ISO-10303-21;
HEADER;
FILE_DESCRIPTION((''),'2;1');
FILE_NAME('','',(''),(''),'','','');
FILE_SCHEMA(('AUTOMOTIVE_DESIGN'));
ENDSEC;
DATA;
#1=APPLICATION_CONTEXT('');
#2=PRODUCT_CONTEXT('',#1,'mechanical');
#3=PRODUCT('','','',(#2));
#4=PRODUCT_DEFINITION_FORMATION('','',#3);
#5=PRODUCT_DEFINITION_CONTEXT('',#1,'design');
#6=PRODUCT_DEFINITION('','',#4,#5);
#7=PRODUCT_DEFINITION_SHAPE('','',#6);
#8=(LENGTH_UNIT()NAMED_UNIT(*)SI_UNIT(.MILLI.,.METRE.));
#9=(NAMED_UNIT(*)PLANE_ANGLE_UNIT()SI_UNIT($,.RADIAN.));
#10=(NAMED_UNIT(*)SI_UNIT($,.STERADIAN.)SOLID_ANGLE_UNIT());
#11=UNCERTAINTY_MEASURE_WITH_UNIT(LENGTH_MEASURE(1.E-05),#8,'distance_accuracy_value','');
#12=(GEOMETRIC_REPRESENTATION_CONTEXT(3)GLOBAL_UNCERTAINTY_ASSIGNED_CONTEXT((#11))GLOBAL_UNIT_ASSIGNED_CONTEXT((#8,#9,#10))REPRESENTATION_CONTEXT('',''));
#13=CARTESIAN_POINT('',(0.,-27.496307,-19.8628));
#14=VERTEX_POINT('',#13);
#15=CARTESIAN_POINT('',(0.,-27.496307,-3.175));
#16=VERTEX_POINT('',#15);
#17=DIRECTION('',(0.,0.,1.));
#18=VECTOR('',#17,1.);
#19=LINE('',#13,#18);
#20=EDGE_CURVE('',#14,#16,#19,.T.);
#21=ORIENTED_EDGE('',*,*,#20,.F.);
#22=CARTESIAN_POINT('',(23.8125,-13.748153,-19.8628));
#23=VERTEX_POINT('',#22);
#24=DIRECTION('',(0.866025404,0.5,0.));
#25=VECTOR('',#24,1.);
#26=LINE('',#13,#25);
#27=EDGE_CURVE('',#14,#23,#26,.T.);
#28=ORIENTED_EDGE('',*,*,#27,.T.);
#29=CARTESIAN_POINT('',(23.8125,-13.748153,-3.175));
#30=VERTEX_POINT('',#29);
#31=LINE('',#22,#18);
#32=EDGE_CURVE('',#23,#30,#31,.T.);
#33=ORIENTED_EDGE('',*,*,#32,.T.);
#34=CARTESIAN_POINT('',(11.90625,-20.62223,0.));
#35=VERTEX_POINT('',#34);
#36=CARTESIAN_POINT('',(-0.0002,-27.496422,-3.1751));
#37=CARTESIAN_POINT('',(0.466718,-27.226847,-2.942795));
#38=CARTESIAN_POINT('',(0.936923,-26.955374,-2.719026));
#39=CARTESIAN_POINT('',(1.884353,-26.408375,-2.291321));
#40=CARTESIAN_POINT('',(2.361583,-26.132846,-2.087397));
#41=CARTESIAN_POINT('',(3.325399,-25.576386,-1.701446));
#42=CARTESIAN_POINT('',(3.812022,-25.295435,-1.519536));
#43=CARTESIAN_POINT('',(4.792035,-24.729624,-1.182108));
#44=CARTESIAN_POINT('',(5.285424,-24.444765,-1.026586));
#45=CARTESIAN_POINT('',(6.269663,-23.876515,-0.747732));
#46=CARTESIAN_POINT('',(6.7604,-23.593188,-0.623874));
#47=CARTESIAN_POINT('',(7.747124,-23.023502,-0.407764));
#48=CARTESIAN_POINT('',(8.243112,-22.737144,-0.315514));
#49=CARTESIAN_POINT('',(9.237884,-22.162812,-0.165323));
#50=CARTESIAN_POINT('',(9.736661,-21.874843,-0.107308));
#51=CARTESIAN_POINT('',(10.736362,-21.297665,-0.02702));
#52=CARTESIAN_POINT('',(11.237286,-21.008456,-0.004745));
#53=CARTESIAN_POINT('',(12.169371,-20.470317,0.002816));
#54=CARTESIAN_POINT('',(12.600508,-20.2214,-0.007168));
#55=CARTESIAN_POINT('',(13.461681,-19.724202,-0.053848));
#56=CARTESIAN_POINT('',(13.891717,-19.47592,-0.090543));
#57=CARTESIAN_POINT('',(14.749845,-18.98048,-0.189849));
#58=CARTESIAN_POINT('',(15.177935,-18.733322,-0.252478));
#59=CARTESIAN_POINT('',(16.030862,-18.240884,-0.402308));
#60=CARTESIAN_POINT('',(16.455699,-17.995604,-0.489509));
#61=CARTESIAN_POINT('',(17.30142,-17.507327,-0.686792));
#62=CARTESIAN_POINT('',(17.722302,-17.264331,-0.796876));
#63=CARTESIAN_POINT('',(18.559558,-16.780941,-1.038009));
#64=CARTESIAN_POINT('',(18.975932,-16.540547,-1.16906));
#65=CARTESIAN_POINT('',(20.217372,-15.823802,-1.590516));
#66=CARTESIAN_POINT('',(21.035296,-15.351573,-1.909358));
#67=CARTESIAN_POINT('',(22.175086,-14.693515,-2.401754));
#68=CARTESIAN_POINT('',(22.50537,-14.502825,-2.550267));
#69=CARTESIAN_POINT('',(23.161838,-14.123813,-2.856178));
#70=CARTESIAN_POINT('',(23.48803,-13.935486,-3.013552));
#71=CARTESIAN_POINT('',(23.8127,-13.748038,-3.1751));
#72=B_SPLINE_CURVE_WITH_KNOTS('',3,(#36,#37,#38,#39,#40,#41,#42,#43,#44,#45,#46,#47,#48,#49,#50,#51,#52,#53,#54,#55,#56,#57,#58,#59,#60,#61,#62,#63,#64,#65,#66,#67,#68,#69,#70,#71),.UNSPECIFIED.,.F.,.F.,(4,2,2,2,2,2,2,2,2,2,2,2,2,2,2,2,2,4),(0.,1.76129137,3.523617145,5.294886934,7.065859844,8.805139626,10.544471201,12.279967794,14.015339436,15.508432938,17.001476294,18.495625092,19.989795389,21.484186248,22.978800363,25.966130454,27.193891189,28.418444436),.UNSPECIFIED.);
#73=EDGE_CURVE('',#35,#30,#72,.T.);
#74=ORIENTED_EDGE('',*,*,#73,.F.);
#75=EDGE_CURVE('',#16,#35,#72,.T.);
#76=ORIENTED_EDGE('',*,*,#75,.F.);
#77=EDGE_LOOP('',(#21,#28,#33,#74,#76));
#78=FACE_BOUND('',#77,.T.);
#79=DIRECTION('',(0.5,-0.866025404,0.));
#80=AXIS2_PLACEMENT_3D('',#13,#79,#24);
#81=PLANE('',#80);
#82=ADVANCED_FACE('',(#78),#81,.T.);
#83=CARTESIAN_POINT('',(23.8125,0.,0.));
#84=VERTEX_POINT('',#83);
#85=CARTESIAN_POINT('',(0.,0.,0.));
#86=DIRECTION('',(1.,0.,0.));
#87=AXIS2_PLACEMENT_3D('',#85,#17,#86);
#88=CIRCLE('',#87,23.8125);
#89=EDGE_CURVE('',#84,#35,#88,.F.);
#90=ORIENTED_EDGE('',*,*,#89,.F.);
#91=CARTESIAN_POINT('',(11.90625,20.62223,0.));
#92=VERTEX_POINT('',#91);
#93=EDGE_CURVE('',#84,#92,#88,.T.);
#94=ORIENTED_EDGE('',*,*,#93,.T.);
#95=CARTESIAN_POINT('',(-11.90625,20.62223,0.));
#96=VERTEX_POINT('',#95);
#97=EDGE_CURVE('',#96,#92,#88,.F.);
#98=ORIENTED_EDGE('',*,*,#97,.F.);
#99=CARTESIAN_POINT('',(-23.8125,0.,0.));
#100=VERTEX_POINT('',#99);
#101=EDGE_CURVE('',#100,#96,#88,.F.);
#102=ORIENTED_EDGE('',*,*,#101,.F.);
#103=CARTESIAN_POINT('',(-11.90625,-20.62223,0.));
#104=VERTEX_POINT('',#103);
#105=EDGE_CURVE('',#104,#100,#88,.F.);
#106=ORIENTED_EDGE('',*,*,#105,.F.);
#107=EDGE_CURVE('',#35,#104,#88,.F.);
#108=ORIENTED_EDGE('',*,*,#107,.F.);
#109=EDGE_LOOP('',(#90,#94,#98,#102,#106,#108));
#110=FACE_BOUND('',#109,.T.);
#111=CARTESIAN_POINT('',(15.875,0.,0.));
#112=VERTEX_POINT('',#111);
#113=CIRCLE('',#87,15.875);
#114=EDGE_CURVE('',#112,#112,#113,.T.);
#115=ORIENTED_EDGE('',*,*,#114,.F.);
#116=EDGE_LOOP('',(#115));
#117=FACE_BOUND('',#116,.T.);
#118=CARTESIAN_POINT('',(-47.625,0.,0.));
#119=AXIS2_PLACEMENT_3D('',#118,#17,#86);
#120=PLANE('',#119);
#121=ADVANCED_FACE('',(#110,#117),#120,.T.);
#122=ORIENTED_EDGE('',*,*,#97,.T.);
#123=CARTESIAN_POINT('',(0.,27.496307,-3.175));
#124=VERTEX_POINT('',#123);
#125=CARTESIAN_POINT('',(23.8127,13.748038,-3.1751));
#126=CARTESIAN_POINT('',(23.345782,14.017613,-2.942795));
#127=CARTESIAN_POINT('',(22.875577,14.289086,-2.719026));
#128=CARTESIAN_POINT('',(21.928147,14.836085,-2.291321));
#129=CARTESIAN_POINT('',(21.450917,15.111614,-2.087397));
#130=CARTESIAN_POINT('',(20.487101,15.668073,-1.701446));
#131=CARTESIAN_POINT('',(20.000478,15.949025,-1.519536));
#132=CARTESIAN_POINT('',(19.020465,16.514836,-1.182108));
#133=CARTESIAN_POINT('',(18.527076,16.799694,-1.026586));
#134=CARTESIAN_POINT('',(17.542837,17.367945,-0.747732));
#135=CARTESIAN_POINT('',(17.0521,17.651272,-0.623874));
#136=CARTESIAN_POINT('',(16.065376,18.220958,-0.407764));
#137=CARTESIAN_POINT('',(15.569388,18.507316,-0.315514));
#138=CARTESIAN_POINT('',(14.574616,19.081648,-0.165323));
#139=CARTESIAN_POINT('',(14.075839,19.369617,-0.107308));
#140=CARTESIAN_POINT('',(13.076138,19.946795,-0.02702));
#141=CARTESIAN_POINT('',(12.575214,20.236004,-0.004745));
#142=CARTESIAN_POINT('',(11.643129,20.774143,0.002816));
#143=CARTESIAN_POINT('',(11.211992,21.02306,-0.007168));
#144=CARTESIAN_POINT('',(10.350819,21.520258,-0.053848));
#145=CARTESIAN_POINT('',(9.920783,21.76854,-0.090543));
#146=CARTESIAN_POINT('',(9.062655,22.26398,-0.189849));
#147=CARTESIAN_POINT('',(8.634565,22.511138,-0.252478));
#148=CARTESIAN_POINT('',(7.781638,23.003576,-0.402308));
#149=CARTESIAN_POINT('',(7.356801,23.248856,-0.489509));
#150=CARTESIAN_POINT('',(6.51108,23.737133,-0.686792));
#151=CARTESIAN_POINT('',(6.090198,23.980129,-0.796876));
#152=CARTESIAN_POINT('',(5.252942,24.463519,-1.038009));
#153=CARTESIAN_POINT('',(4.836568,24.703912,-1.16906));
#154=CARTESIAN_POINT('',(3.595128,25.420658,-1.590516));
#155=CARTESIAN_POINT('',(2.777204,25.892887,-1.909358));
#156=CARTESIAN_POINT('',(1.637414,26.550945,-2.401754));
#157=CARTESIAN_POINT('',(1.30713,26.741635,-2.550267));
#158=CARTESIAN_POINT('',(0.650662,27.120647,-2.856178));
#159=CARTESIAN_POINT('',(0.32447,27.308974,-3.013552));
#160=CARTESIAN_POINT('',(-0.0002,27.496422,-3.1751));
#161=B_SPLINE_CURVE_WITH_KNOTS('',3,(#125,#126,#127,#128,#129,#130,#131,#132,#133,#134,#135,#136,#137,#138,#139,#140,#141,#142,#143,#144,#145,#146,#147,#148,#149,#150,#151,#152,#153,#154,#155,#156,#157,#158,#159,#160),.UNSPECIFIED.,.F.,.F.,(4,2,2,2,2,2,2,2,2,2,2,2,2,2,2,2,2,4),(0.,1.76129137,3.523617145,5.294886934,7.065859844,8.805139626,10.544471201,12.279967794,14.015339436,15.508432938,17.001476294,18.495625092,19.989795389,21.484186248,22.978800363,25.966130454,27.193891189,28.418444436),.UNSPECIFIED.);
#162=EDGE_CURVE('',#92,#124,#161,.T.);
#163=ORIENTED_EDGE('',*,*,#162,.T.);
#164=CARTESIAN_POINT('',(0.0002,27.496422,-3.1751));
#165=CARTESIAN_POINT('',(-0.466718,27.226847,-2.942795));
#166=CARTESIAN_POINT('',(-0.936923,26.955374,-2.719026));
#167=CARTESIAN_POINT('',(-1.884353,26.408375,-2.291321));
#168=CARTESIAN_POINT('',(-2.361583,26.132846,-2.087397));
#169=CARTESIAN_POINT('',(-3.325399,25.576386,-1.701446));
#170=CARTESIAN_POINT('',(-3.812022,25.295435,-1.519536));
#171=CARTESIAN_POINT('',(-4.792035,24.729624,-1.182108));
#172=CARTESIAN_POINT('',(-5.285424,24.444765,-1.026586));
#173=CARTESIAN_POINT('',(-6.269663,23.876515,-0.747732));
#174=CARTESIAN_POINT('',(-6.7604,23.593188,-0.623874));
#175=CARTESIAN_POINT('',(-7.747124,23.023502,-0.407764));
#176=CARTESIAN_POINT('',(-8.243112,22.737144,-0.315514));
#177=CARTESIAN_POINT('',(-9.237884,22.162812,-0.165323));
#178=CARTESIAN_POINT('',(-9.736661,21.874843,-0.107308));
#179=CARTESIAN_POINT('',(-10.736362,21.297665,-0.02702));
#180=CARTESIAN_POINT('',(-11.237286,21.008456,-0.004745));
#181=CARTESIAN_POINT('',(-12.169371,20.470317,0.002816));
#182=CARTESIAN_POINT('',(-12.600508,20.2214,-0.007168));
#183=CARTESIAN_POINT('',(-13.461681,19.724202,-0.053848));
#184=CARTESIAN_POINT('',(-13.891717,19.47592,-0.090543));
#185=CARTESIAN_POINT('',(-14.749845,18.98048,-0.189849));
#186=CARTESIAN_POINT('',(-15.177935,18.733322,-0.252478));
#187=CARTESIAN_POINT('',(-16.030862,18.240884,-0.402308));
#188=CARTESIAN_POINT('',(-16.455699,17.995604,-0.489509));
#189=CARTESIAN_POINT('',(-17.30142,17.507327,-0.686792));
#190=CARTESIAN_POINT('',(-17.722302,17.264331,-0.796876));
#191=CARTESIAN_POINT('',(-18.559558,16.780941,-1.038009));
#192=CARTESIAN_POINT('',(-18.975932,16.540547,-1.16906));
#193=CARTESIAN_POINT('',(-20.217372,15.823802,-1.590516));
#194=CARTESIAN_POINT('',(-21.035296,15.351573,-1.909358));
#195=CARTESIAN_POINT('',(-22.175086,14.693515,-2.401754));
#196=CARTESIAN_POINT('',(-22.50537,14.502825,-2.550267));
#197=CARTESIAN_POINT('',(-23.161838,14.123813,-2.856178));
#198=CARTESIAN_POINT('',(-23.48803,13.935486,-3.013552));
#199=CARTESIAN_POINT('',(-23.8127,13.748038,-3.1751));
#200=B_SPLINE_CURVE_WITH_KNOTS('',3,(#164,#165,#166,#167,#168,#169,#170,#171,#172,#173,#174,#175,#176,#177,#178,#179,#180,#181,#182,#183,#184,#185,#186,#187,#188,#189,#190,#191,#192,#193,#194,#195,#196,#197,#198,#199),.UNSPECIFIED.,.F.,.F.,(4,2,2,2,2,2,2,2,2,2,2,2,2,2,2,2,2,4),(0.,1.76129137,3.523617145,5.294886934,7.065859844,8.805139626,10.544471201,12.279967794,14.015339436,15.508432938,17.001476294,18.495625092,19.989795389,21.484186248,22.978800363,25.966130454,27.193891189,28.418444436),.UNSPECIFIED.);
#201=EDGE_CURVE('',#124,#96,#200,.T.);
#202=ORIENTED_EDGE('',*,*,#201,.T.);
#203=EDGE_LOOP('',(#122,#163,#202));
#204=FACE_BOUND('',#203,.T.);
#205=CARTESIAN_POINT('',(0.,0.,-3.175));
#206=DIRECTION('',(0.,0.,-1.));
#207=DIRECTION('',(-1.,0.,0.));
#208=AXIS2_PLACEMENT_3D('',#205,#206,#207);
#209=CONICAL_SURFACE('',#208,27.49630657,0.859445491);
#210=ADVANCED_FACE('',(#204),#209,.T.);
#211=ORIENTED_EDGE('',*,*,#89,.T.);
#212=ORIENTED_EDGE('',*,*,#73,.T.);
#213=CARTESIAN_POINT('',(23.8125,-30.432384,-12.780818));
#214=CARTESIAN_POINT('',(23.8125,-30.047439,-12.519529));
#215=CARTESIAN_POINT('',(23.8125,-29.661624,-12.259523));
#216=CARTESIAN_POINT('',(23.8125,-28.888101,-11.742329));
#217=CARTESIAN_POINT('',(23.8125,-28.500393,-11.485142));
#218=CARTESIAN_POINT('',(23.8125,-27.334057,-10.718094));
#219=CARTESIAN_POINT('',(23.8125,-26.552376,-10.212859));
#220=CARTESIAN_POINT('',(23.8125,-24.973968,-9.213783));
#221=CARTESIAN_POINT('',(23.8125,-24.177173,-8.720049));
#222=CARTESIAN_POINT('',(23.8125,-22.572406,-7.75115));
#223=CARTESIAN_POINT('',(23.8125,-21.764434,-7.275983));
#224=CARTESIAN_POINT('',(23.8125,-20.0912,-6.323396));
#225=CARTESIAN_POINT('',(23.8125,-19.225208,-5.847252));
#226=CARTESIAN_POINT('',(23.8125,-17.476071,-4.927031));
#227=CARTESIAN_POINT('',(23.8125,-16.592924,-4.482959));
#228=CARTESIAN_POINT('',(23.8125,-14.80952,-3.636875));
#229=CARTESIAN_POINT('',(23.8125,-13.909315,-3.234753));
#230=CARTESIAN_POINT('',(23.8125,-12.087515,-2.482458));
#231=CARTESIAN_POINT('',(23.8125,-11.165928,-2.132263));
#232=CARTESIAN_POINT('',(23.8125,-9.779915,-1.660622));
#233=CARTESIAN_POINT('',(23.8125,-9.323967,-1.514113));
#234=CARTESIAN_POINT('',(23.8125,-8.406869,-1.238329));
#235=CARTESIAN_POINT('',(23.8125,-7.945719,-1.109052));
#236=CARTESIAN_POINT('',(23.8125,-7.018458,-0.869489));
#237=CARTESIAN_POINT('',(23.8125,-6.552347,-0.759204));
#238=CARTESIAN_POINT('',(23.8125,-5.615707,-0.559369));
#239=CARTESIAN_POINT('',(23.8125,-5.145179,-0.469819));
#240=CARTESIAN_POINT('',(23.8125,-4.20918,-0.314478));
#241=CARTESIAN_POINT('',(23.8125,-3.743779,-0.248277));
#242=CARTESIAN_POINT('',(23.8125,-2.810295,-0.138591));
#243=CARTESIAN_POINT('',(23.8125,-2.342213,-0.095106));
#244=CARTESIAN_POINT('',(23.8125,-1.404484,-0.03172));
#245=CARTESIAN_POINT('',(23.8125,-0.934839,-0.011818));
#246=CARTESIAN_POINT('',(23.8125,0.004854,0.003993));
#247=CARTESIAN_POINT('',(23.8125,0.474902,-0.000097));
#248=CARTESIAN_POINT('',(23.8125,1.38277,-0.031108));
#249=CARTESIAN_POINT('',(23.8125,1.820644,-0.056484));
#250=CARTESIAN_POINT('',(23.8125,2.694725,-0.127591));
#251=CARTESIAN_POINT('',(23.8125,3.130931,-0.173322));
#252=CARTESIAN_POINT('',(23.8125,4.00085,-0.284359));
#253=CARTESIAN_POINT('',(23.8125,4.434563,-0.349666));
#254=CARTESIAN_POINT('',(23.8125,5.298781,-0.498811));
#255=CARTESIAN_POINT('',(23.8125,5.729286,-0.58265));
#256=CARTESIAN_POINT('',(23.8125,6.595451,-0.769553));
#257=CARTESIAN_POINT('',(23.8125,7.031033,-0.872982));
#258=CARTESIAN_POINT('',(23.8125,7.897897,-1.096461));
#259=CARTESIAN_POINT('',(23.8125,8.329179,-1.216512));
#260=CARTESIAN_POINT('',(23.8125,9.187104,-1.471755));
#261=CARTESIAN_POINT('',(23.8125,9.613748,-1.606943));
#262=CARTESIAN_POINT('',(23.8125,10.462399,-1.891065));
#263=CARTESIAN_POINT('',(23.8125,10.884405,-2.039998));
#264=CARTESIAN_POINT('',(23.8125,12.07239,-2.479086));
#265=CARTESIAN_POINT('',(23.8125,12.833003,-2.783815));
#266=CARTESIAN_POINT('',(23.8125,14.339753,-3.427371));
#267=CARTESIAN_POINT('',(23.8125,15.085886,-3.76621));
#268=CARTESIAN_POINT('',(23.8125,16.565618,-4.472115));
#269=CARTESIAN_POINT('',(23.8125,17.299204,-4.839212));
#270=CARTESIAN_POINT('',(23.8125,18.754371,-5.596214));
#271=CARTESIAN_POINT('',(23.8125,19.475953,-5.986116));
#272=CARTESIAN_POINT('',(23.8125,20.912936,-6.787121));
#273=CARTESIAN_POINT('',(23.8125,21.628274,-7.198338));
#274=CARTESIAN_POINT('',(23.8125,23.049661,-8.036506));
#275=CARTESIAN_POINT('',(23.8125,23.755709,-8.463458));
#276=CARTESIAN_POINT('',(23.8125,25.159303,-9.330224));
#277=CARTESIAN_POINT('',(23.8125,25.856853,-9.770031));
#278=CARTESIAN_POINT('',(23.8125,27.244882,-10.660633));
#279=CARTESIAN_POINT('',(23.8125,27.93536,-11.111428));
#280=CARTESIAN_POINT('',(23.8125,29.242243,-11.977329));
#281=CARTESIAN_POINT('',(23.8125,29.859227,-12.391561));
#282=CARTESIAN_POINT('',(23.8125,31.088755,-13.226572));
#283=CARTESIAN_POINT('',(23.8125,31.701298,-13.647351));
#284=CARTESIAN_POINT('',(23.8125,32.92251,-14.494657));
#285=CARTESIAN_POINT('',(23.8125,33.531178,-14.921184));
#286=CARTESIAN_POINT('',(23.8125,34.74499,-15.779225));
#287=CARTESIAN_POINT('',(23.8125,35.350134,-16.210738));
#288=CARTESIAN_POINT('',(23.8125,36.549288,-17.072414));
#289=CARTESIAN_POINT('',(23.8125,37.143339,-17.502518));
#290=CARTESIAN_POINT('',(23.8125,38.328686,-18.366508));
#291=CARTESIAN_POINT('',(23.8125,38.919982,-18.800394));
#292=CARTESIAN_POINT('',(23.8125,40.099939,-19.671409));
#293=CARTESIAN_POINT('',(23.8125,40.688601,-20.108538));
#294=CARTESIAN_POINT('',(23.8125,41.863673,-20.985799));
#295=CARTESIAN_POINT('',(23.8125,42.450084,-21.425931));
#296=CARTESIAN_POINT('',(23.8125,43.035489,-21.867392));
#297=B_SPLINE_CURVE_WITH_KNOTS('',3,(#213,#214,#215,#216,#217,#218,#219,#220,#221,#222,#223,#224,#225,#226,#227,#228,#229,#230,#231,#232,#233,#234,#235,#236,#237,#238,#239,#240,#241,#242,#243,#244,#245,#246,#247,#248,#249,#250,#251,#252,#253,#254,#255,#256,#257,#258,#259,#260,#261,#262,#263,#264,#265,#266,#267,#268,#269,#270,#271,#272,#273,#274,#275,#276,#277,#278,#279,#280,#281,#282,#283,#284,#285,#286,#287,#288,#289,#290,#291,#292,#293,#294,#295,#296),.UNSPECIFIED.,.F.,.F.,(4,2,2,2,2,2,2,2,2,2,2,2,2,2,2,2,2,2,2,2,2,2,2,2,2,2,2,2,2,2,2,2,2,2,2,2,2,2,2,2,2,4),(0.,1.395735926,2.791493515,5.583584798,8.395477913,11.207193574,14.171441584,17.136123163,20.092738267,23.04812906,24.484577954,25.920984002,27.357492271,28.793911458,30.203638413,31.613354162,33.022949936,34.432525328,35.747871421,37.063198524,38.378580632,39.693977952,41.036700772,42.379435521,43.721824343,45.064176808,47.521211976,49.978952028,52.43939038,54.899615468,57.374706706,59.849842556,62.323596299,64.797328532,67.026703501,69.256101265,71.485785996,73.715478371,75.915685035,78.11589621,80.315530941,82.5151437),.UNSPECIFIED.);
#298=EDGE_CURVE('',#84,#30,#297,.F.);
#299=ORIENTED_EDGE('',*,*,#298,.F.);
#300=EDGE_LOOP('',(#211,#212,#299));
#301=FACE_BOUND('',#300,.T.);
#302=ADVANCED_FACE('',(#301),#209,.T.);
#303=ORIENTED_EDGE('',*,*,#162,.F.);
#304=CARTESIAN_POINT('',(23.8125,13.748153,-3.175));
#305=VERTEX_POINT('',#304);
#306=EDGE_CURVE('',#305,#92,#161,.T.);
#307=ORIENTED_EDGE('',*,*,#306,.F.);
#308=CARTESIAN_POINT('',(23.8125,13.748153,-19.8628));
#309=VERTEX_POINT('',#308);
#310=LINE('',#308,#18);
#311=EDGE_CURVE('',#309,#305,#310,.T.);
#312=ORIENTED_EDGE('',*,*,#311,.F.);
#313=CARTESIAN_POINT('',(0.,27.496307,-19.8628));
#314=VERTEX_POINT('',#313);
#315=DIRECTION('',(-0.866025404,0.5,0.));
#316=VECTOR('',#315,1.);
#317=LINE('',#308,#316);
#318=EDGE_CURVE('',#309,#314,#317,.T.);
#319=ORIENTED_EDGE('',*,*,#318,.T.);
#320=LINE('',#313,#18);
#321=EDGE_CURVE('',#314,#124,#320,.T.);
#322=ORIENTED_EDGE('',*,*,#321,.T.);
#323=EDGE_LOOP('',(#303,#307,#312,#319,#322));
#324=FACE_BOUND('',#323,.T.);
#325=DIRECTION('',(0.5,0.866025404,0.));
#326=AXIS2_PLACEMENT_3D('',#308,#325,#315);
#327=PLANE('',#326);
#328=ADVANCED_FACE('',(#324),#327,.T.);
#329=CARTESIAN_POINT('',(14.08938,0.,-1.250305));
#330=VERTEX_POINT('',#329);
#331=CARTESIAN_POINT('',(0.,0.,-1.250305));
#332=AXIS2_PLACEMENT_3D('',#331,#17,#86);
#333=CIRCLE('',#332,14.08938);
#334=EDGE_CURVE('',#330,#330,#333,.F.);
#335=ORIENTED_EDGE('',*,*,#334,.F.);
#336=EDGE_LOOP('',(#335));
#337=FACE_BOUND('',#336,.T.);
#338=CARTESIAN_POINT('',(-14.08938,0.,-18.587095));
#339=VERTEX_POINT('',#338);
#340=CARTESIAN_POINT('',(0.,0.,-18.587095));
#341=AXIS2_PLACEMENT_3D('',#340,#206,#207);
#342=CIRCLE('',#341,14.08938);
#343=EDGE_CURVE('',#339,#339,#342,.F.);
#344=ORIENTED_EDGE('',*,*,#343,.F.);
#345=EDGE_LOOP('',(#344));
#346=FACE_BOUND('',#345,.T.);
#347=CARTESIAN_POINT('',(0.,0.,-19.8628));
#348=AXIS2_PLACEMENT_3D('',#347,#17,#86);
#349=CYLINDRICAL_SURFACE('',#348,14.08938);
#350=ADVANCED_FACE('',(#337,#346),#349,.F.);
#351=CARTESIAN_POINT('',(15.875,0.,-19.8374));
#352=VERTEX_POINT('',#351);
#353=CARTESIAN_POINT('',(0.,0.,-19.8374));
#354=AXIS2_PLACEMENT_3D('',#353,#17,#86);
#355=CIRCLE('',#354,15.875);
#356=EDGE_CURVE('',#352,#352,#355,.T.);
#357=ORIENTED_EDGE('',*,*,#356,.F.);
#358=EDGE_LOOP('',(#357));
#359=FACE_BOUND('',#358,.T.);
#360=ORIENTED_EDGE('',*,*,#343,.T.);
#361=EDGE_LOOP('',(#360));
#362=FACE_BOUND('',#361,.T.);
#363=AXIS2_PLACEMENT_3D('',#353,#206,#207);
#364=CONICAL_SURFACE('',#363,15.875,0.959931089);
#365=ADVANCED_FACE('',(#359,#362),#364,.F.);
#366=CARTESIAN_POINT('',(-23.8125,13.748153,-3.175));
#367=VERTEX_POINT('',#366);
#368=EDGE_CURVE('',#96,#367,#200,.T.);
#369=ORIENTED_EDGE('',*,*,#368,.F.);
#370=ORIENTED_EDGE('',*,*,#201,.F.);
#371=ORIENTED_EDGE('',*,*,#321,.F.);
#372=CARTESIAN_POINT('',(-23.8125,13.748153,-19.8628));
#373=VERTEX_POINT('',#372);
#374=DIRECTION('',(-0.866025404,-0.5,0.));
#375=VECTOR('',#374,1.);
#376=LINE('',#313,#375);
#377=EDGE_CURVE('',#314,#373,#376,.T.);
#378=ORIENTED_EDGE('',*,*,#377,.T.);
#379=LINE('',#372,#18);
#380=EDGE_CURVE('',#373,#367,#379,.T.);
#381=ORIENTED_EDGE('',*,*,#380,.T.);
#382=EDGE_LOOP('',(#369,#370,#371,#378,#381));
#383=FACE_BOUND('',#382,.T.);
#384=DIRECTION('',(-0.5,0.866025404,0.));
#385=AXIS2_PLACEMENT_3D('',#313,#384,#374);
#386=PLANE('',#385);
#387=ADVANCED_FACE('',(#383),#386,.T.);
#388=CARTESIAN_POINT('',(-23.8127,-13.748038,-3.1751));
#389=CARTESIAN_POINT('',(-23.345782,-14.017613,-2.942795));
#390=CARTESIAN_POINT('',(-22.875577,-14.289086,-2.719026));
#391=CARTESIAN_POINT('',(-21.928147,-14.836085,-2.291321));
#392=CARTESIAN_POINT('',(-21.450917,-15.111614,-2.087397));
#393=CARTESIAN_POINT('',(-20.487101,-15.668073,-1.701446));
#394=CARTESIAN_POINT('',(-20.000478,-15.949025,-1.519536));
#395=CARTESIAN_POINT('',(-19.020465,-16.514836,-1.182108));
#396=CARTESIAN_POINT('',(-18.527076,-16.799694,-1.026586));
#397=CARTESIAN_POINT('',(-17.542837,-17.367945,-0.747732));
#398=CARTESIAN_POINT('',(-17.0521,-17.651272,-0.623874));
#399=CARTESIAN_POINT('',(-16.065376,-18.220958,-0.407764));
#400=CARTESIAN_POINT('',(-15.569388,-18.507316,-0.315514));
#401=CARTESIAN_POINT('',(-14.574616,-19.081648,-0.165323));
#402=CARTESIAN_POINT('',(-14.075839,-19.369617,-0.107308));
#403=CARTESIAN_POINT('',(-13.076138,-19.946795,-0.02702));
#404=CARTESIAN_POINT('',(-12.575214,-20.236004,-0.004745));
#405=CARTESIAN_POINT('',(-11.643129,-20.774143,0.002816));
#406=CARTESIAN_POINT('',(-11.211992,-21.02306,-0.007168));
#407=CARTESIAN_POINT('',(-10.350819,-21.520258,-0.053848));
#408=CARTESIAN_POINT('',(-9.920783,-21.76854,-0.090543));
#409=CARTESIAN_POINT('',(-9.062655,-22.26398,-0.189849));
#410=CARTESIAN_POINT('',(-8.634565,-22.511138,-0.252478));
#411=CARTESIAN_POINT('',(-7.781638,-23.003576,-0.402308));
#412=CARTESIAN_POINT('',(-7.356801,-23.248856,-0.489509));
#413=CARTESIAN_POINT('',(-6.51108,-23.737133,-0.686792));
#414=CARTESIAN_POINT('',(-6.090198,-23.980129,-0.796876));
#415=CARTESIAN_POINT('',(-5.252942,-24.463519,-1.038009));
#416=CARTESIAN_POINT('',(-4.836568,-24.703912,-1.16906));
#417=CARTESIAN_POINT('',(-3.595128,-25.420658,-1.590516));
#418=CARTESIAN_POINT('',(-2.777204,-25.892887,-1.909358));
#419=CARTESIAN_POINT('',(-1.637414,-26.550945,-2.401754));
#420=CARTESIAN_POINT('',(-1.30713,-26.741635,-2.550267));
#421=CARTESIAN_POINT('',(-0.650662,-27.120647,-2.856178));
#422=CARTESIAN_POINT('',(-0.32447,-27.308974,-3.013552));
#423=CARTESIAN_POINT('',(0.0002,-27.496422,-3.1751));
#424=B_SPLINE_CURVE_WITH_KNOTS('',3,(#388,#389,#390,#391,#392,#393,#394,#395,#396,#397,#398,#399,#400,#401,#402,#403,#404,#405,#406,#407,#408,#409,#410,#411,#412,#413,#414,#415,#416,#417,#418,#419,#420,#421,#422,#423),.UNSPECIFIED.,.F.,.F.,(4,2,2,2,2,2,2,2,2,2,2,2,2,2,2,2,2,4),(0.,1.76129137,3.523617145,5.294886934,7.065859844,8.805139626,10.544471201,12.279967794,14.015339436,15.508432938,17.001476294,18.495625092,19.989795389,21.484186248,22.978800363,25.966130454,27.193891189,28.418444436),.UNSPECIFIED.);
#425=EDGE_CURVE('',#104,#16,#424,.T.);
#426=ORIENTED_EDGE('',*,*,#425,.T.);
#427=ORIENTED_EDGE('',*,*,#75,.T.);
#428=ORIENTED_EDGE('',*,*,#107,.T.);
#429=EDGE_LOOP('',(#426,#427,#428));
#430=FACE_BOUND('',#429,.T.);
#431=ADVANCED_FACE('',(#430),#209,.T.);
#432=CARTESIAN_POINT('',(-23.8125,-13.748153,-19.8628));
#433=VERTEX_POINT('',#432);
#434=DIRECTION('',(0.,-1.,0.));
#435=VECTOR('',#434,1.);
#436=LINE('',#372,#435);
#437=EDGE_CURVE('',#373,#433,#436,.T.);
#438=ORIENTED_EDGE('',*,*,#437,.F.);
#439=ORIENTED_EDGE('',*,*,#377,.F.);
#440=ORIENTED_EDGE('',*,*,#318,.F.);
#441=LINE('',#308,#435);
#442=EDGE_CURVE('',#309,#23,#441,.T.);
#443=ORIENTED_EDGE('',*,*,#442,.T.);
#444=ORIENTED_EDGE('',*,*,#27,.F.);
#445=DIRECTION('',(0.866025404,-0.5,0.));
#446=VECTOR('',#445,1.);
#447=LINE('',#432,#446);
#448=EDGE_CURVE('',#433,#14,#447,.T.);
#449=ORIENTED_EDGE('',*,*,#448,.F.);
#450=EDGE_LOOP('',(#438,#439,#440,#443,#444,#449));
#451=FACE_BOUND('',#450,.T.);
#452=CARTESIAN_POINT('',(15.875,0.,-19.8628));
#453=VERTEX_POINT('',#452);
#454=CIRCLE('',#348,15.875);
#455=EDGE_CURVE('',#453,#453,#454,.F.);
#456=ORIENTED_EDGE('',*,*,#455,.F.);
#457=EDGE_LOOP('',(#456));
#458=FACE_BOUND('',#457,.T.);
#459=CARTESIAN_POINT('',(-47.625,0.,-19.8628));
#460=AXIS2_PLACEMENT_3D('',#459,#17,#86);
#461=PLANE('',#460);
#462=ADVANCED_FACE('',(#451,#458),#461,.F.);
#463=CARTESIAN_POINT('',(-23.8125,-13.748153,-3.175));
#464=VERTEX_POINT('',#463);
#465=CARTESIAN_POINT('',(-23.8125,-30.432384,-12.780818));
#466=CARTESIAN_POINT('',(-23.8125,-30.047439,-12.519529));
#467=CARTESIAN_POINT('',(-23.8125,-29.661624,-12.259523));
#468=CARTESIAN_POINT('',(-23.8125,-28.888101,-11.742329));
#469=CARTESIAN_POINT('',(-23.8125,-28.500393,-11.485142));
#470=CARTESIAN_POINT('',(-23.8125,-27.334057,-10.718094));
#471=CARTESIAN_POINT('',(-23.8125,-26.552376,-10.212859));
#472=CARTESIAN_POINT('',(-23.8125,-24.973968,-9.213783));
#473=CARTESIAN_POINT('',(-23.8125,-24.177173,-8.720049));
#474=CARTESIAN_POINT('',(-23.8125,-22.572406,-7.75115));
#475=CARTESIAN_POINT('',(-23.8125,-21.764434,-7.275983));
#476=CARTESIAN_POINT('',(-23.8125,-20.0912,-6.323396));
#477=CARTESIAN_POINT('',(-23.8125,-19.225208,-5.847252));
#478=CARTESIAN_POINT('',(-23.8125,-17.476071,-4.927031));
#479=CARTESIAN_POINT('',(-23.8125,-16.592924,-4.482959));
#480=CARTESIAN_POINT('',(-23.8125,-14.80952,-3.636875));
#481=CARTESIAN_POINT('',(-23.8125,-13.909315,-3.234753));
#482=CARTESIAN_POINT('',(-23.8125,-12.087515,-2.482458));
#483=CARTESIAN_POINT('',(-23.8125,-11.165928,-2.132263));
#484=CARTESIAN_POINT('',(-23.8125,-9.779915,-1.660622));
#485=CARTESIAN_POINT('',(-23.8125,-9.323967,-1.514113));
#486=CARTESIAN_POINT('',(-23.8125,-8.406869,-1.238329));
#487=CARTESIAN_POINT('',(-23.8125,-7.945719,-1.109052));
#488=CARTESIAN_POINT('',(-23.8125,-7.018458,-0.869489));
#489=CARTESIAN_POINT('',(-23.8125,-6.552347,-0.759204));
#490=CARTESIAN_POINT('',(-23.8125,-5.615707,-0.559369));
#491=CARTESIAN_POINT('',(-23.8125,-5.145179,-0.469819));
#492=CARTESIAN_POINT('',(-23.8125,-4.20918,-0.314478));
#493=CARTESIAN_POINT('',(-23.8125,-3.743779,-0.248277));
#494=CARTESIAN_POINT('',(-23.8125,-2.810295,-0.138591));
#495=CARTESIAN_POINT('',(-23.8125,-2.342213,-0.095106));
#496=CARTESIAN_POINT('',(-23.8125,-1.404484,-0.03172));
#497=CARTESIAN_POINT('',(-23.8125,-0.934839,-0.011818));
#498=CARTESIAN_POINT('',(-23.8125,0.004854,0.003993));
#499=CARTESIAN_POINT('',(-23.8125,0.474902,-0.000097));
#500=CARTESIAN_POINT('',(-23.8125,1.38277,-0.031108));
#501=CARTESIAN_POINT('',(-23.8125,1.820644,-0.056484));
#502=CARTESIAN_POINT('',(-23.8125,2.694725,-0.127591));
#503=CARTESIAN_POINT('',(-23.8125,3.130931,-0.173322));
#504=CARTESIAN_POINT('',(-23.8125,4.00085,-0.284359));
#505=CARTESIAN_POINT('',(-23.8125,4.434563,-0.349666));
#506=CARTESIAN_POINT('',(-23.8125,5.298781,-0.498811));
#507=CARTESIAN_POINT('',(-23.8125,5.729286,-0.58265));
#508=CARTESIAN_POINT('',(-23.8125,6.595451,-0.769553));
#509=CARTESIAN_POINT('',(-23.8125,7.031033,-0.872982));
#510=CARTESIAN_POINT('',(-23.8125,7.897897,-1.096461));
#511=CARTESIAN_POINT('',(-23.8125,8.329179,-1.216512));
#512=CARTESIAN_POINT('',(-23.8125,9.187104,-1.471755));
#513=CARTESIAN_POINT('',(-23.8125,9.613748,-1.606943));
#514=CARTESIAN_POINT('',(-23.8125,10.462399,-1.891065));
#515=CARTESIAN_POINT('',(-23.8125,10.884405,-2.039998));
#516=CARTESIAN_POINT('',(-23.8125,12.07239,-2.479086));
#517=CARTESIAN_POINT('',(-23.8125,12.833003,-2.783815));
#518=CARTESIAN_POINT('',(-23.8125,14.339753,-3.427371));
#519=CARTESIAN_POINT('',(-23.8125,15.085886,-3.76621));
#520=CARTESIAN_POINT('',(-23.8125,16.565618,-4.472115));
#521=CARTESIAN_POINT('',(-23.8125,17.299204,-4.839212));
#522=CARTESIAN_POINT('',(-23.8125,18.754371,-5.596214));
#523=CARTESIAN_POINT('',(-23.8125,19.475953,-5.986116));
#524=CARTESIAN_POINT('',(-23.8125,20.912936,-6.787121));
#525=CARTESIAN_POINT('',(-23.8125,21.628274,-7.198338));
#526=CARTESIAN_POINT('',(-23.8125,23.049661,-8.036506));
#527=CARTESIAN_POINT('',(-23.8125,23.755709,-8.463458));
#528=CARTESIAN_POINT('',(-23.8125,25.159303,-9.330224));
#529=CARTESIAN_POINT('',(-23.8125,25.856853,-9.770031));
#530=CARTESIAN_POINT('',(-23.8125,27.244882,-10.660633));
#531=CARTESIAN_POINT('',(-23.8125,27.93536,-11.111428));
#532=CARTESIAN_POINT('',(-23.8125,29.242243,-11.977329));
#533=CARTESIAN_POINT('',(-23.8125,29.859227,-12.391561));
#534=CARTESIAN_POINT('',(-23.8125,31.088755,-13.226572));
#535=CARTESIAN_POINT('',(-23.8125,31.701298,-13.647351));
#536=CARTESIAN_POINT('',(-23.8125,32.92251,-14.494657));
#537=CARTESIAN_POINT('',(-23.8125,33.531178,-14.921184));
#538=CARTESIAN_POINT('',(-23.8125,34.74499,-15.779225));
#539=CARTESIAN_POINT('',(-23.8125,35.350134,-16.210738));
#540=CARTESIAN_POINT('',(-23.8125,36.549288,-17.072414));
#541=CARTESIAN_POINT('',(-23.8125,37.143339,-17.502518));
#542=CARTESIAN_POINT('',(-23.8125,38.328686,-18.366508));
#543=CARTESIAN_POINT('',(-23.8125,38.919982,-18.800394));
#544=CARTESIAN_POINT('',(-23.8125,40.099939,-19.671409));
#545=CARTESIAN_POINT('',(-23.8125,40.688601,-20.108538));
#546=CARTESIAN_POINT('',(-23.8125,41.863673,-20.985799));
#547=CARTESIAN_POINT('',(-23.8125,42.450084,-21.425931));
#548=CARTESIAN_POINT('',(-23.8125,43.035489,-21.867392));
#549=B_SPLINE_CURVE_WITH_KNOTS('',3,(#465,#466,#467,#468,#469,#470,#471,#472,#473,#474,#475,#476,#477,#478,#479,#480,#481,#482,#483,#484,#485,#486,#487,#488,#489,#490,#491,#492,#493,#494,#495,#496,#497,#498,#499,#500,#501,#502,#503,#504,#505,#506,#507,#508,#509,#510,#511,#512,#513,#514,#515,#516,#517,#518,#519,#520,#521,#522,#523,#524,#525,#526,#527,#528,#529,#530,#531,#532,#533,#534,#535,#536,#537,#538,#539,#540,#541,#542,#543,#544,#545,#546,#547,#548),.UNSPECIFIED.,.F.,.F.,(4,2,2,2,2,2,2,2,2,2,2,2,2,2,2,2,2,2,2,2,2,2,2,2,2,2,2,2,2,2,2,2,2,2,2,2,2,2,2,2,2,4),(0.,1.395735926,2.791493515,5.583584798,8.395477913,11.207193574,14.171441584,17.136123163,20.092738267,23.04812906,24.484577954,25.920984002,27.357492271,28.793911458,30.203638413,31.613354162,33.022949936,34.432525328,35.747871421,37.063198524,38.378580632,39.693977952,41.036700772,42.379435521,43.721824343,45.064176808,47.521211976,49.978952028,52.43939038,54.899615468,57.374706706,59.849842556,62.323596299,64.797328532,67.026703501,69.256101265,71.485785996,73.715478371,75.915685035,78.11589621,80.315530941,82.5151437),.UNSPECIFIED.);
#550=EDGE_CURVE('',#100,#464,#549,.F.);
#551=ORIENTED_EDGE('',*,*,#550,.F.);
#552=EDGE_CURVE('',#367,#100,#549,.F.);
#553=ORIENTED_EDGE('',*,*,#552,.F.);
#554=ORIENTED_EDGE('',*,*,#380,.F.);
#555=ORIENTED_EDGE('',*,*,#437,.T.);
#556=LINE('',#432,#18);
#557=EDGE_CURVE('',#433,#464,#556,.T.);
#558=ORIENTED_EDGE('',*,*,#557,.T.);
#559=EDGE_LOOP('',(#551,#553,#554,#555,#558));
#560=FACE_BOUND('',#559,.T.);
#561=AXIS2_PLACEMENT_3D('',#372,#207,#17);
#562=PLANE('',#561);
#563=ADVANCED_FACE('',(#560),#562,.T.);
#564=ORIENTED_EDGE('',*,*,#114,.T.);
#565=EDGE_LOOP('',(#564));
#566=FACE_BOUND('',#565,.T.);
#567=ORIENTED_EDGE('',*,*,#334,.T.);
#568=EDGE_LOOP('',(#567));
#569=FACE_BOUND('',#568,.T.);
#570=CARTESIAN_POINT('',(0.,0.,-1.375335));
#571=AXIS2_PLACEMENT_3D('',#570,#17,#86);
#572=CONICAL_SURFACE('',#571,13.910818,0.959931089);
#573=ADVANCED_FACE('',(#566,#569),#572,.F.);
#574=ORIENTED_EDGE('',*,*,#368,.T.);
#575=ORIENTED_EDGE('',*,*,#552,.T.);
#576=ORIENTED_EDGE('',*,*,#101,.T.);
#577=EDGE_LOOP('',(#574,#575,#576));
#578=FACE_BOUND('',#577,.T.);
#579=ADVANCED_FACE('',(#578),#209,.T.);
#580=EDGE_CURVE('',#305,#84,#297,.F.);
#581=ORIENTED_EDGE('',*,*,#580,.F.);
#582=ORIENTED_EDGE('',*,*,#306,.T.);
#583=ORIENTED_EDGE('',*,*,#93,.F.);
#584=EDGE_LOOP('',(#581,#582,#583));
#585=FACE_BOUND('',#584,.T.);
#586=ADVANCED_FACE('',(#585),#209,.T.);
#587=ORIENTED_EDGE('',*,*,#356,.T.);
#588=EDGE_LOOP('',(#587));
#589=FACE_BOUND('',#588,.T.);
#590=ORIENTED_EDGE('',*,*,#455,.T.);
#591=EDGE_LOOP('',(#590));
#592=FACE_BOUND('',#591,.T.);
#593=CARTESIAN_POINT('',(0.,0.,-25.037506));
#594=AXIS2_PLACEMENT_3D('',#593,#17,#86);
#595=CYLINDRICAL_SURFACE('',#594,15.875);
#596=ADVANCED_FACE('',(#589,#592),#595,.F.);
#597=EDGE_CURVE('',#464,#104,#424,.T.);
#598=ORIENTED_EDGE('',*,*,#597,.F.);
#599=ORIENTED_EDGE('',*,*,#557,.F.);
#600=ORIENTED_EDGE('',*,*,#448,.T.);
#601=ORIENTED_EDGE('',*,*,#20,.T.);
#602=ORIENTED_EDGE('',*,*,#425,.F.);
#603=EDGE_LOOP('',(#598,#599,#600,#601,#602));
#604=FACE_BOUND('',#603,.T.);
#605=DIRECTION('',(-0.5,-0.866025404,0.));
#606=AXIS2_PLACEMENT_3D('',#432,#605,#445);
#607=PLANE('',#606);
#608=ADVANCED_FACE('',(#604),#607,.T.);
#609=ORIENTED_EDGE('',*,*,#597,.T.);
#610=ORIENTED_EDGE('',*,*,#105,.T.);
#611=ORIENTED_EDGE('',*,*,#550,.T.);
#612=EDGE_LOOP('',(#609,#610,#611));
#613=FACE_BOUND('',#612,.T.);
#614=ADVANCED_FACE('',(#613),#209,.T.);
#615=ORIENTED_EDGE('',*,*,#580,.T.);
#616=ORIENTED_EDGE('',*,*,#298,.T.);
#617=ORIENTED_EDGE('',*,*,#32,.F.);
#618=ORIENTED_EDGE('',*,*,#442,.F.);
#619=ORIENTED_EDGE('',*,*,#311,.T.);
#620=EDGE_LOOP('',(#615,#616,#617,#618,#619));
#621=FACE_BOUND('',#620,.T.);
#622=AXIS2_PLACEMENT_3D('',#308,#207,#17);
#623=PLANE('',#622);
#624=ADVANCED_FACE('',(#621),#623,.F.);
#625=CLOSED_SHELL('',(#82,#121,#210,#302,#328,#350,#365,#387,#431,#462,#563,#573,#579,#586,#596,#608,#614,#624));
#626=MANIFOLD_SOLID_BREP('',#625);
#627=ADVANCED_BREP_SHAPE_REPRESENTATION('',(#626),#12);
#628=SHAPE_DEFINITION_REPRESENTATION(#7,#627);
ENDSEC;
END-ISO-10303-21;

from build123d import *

# Parameters (mm, degrees)
BASENUT_START = -19.8628
BASENUTSKE_R  = 14.08938
BASENUT_DEPTH = 19.8628


with BuildPart() as part:
    # BaseNutSke → BaseNut (new body)
    with BuildSketch(Plane.XY.offset(BASENUT_START)):
        Polygon((23.8125, 13.748153285), (23.8125, -13.748153285), (0, -27.49630657), (-23.8125, -13.748153285), (-23.8125, 13.748153285), (0, 27.49630657), align=None)
        Circle(BASENUTSKE_R, mode=Mode.SUBTRACT)
    extrude(amount=BASENUT_DEPTH)

    # Sketch2 → Single-Chamfer (revolve, cut)
    with BuildSketch(Plane(origin=(0, 0, 0), x_dir=(0, 0, -1), z_dir=(1, 0, 0))):
        Polygon((0, 23.8125), (-12.7, 23.8125), (-12.7, 40.19630657), (3.175, 40.19630657), (3.175, 27.49630657), align=None)
    revolve(axis=Axis((0, 0, 0), (0, 0, -1)), mode=Mode.SUBTRACT)

    # EndChamferSketch → EndChamfer (revolve, cut)
    with BuildSketch(Plane(origin=(0, 0, 0), x_dir=(0, 0, -1), z_dir=(1, 0, 0)), mode=Mode.PRIVATE) as endchamfer_sk:
        Polygon((19.8374, 15.875), (18.462064957, 13.910818), (19.8882, 13.910818), (19.8882, 15.875), align=None)
        Polygon((-0.0508, 15.875), (0, 15.875), (1.375335043, 13.910818), (-0.0508, 13.910818), align=None)
    revolve(endchamfer_sk.sketch.rotate(Axis((0, 0, -25.037505729), (0, 0, -1)), 90), axis=Axis((0, 0, -25.037505729), (0, 0, -1)), mode=Mode.SUBTRACT)


solid = part.part
